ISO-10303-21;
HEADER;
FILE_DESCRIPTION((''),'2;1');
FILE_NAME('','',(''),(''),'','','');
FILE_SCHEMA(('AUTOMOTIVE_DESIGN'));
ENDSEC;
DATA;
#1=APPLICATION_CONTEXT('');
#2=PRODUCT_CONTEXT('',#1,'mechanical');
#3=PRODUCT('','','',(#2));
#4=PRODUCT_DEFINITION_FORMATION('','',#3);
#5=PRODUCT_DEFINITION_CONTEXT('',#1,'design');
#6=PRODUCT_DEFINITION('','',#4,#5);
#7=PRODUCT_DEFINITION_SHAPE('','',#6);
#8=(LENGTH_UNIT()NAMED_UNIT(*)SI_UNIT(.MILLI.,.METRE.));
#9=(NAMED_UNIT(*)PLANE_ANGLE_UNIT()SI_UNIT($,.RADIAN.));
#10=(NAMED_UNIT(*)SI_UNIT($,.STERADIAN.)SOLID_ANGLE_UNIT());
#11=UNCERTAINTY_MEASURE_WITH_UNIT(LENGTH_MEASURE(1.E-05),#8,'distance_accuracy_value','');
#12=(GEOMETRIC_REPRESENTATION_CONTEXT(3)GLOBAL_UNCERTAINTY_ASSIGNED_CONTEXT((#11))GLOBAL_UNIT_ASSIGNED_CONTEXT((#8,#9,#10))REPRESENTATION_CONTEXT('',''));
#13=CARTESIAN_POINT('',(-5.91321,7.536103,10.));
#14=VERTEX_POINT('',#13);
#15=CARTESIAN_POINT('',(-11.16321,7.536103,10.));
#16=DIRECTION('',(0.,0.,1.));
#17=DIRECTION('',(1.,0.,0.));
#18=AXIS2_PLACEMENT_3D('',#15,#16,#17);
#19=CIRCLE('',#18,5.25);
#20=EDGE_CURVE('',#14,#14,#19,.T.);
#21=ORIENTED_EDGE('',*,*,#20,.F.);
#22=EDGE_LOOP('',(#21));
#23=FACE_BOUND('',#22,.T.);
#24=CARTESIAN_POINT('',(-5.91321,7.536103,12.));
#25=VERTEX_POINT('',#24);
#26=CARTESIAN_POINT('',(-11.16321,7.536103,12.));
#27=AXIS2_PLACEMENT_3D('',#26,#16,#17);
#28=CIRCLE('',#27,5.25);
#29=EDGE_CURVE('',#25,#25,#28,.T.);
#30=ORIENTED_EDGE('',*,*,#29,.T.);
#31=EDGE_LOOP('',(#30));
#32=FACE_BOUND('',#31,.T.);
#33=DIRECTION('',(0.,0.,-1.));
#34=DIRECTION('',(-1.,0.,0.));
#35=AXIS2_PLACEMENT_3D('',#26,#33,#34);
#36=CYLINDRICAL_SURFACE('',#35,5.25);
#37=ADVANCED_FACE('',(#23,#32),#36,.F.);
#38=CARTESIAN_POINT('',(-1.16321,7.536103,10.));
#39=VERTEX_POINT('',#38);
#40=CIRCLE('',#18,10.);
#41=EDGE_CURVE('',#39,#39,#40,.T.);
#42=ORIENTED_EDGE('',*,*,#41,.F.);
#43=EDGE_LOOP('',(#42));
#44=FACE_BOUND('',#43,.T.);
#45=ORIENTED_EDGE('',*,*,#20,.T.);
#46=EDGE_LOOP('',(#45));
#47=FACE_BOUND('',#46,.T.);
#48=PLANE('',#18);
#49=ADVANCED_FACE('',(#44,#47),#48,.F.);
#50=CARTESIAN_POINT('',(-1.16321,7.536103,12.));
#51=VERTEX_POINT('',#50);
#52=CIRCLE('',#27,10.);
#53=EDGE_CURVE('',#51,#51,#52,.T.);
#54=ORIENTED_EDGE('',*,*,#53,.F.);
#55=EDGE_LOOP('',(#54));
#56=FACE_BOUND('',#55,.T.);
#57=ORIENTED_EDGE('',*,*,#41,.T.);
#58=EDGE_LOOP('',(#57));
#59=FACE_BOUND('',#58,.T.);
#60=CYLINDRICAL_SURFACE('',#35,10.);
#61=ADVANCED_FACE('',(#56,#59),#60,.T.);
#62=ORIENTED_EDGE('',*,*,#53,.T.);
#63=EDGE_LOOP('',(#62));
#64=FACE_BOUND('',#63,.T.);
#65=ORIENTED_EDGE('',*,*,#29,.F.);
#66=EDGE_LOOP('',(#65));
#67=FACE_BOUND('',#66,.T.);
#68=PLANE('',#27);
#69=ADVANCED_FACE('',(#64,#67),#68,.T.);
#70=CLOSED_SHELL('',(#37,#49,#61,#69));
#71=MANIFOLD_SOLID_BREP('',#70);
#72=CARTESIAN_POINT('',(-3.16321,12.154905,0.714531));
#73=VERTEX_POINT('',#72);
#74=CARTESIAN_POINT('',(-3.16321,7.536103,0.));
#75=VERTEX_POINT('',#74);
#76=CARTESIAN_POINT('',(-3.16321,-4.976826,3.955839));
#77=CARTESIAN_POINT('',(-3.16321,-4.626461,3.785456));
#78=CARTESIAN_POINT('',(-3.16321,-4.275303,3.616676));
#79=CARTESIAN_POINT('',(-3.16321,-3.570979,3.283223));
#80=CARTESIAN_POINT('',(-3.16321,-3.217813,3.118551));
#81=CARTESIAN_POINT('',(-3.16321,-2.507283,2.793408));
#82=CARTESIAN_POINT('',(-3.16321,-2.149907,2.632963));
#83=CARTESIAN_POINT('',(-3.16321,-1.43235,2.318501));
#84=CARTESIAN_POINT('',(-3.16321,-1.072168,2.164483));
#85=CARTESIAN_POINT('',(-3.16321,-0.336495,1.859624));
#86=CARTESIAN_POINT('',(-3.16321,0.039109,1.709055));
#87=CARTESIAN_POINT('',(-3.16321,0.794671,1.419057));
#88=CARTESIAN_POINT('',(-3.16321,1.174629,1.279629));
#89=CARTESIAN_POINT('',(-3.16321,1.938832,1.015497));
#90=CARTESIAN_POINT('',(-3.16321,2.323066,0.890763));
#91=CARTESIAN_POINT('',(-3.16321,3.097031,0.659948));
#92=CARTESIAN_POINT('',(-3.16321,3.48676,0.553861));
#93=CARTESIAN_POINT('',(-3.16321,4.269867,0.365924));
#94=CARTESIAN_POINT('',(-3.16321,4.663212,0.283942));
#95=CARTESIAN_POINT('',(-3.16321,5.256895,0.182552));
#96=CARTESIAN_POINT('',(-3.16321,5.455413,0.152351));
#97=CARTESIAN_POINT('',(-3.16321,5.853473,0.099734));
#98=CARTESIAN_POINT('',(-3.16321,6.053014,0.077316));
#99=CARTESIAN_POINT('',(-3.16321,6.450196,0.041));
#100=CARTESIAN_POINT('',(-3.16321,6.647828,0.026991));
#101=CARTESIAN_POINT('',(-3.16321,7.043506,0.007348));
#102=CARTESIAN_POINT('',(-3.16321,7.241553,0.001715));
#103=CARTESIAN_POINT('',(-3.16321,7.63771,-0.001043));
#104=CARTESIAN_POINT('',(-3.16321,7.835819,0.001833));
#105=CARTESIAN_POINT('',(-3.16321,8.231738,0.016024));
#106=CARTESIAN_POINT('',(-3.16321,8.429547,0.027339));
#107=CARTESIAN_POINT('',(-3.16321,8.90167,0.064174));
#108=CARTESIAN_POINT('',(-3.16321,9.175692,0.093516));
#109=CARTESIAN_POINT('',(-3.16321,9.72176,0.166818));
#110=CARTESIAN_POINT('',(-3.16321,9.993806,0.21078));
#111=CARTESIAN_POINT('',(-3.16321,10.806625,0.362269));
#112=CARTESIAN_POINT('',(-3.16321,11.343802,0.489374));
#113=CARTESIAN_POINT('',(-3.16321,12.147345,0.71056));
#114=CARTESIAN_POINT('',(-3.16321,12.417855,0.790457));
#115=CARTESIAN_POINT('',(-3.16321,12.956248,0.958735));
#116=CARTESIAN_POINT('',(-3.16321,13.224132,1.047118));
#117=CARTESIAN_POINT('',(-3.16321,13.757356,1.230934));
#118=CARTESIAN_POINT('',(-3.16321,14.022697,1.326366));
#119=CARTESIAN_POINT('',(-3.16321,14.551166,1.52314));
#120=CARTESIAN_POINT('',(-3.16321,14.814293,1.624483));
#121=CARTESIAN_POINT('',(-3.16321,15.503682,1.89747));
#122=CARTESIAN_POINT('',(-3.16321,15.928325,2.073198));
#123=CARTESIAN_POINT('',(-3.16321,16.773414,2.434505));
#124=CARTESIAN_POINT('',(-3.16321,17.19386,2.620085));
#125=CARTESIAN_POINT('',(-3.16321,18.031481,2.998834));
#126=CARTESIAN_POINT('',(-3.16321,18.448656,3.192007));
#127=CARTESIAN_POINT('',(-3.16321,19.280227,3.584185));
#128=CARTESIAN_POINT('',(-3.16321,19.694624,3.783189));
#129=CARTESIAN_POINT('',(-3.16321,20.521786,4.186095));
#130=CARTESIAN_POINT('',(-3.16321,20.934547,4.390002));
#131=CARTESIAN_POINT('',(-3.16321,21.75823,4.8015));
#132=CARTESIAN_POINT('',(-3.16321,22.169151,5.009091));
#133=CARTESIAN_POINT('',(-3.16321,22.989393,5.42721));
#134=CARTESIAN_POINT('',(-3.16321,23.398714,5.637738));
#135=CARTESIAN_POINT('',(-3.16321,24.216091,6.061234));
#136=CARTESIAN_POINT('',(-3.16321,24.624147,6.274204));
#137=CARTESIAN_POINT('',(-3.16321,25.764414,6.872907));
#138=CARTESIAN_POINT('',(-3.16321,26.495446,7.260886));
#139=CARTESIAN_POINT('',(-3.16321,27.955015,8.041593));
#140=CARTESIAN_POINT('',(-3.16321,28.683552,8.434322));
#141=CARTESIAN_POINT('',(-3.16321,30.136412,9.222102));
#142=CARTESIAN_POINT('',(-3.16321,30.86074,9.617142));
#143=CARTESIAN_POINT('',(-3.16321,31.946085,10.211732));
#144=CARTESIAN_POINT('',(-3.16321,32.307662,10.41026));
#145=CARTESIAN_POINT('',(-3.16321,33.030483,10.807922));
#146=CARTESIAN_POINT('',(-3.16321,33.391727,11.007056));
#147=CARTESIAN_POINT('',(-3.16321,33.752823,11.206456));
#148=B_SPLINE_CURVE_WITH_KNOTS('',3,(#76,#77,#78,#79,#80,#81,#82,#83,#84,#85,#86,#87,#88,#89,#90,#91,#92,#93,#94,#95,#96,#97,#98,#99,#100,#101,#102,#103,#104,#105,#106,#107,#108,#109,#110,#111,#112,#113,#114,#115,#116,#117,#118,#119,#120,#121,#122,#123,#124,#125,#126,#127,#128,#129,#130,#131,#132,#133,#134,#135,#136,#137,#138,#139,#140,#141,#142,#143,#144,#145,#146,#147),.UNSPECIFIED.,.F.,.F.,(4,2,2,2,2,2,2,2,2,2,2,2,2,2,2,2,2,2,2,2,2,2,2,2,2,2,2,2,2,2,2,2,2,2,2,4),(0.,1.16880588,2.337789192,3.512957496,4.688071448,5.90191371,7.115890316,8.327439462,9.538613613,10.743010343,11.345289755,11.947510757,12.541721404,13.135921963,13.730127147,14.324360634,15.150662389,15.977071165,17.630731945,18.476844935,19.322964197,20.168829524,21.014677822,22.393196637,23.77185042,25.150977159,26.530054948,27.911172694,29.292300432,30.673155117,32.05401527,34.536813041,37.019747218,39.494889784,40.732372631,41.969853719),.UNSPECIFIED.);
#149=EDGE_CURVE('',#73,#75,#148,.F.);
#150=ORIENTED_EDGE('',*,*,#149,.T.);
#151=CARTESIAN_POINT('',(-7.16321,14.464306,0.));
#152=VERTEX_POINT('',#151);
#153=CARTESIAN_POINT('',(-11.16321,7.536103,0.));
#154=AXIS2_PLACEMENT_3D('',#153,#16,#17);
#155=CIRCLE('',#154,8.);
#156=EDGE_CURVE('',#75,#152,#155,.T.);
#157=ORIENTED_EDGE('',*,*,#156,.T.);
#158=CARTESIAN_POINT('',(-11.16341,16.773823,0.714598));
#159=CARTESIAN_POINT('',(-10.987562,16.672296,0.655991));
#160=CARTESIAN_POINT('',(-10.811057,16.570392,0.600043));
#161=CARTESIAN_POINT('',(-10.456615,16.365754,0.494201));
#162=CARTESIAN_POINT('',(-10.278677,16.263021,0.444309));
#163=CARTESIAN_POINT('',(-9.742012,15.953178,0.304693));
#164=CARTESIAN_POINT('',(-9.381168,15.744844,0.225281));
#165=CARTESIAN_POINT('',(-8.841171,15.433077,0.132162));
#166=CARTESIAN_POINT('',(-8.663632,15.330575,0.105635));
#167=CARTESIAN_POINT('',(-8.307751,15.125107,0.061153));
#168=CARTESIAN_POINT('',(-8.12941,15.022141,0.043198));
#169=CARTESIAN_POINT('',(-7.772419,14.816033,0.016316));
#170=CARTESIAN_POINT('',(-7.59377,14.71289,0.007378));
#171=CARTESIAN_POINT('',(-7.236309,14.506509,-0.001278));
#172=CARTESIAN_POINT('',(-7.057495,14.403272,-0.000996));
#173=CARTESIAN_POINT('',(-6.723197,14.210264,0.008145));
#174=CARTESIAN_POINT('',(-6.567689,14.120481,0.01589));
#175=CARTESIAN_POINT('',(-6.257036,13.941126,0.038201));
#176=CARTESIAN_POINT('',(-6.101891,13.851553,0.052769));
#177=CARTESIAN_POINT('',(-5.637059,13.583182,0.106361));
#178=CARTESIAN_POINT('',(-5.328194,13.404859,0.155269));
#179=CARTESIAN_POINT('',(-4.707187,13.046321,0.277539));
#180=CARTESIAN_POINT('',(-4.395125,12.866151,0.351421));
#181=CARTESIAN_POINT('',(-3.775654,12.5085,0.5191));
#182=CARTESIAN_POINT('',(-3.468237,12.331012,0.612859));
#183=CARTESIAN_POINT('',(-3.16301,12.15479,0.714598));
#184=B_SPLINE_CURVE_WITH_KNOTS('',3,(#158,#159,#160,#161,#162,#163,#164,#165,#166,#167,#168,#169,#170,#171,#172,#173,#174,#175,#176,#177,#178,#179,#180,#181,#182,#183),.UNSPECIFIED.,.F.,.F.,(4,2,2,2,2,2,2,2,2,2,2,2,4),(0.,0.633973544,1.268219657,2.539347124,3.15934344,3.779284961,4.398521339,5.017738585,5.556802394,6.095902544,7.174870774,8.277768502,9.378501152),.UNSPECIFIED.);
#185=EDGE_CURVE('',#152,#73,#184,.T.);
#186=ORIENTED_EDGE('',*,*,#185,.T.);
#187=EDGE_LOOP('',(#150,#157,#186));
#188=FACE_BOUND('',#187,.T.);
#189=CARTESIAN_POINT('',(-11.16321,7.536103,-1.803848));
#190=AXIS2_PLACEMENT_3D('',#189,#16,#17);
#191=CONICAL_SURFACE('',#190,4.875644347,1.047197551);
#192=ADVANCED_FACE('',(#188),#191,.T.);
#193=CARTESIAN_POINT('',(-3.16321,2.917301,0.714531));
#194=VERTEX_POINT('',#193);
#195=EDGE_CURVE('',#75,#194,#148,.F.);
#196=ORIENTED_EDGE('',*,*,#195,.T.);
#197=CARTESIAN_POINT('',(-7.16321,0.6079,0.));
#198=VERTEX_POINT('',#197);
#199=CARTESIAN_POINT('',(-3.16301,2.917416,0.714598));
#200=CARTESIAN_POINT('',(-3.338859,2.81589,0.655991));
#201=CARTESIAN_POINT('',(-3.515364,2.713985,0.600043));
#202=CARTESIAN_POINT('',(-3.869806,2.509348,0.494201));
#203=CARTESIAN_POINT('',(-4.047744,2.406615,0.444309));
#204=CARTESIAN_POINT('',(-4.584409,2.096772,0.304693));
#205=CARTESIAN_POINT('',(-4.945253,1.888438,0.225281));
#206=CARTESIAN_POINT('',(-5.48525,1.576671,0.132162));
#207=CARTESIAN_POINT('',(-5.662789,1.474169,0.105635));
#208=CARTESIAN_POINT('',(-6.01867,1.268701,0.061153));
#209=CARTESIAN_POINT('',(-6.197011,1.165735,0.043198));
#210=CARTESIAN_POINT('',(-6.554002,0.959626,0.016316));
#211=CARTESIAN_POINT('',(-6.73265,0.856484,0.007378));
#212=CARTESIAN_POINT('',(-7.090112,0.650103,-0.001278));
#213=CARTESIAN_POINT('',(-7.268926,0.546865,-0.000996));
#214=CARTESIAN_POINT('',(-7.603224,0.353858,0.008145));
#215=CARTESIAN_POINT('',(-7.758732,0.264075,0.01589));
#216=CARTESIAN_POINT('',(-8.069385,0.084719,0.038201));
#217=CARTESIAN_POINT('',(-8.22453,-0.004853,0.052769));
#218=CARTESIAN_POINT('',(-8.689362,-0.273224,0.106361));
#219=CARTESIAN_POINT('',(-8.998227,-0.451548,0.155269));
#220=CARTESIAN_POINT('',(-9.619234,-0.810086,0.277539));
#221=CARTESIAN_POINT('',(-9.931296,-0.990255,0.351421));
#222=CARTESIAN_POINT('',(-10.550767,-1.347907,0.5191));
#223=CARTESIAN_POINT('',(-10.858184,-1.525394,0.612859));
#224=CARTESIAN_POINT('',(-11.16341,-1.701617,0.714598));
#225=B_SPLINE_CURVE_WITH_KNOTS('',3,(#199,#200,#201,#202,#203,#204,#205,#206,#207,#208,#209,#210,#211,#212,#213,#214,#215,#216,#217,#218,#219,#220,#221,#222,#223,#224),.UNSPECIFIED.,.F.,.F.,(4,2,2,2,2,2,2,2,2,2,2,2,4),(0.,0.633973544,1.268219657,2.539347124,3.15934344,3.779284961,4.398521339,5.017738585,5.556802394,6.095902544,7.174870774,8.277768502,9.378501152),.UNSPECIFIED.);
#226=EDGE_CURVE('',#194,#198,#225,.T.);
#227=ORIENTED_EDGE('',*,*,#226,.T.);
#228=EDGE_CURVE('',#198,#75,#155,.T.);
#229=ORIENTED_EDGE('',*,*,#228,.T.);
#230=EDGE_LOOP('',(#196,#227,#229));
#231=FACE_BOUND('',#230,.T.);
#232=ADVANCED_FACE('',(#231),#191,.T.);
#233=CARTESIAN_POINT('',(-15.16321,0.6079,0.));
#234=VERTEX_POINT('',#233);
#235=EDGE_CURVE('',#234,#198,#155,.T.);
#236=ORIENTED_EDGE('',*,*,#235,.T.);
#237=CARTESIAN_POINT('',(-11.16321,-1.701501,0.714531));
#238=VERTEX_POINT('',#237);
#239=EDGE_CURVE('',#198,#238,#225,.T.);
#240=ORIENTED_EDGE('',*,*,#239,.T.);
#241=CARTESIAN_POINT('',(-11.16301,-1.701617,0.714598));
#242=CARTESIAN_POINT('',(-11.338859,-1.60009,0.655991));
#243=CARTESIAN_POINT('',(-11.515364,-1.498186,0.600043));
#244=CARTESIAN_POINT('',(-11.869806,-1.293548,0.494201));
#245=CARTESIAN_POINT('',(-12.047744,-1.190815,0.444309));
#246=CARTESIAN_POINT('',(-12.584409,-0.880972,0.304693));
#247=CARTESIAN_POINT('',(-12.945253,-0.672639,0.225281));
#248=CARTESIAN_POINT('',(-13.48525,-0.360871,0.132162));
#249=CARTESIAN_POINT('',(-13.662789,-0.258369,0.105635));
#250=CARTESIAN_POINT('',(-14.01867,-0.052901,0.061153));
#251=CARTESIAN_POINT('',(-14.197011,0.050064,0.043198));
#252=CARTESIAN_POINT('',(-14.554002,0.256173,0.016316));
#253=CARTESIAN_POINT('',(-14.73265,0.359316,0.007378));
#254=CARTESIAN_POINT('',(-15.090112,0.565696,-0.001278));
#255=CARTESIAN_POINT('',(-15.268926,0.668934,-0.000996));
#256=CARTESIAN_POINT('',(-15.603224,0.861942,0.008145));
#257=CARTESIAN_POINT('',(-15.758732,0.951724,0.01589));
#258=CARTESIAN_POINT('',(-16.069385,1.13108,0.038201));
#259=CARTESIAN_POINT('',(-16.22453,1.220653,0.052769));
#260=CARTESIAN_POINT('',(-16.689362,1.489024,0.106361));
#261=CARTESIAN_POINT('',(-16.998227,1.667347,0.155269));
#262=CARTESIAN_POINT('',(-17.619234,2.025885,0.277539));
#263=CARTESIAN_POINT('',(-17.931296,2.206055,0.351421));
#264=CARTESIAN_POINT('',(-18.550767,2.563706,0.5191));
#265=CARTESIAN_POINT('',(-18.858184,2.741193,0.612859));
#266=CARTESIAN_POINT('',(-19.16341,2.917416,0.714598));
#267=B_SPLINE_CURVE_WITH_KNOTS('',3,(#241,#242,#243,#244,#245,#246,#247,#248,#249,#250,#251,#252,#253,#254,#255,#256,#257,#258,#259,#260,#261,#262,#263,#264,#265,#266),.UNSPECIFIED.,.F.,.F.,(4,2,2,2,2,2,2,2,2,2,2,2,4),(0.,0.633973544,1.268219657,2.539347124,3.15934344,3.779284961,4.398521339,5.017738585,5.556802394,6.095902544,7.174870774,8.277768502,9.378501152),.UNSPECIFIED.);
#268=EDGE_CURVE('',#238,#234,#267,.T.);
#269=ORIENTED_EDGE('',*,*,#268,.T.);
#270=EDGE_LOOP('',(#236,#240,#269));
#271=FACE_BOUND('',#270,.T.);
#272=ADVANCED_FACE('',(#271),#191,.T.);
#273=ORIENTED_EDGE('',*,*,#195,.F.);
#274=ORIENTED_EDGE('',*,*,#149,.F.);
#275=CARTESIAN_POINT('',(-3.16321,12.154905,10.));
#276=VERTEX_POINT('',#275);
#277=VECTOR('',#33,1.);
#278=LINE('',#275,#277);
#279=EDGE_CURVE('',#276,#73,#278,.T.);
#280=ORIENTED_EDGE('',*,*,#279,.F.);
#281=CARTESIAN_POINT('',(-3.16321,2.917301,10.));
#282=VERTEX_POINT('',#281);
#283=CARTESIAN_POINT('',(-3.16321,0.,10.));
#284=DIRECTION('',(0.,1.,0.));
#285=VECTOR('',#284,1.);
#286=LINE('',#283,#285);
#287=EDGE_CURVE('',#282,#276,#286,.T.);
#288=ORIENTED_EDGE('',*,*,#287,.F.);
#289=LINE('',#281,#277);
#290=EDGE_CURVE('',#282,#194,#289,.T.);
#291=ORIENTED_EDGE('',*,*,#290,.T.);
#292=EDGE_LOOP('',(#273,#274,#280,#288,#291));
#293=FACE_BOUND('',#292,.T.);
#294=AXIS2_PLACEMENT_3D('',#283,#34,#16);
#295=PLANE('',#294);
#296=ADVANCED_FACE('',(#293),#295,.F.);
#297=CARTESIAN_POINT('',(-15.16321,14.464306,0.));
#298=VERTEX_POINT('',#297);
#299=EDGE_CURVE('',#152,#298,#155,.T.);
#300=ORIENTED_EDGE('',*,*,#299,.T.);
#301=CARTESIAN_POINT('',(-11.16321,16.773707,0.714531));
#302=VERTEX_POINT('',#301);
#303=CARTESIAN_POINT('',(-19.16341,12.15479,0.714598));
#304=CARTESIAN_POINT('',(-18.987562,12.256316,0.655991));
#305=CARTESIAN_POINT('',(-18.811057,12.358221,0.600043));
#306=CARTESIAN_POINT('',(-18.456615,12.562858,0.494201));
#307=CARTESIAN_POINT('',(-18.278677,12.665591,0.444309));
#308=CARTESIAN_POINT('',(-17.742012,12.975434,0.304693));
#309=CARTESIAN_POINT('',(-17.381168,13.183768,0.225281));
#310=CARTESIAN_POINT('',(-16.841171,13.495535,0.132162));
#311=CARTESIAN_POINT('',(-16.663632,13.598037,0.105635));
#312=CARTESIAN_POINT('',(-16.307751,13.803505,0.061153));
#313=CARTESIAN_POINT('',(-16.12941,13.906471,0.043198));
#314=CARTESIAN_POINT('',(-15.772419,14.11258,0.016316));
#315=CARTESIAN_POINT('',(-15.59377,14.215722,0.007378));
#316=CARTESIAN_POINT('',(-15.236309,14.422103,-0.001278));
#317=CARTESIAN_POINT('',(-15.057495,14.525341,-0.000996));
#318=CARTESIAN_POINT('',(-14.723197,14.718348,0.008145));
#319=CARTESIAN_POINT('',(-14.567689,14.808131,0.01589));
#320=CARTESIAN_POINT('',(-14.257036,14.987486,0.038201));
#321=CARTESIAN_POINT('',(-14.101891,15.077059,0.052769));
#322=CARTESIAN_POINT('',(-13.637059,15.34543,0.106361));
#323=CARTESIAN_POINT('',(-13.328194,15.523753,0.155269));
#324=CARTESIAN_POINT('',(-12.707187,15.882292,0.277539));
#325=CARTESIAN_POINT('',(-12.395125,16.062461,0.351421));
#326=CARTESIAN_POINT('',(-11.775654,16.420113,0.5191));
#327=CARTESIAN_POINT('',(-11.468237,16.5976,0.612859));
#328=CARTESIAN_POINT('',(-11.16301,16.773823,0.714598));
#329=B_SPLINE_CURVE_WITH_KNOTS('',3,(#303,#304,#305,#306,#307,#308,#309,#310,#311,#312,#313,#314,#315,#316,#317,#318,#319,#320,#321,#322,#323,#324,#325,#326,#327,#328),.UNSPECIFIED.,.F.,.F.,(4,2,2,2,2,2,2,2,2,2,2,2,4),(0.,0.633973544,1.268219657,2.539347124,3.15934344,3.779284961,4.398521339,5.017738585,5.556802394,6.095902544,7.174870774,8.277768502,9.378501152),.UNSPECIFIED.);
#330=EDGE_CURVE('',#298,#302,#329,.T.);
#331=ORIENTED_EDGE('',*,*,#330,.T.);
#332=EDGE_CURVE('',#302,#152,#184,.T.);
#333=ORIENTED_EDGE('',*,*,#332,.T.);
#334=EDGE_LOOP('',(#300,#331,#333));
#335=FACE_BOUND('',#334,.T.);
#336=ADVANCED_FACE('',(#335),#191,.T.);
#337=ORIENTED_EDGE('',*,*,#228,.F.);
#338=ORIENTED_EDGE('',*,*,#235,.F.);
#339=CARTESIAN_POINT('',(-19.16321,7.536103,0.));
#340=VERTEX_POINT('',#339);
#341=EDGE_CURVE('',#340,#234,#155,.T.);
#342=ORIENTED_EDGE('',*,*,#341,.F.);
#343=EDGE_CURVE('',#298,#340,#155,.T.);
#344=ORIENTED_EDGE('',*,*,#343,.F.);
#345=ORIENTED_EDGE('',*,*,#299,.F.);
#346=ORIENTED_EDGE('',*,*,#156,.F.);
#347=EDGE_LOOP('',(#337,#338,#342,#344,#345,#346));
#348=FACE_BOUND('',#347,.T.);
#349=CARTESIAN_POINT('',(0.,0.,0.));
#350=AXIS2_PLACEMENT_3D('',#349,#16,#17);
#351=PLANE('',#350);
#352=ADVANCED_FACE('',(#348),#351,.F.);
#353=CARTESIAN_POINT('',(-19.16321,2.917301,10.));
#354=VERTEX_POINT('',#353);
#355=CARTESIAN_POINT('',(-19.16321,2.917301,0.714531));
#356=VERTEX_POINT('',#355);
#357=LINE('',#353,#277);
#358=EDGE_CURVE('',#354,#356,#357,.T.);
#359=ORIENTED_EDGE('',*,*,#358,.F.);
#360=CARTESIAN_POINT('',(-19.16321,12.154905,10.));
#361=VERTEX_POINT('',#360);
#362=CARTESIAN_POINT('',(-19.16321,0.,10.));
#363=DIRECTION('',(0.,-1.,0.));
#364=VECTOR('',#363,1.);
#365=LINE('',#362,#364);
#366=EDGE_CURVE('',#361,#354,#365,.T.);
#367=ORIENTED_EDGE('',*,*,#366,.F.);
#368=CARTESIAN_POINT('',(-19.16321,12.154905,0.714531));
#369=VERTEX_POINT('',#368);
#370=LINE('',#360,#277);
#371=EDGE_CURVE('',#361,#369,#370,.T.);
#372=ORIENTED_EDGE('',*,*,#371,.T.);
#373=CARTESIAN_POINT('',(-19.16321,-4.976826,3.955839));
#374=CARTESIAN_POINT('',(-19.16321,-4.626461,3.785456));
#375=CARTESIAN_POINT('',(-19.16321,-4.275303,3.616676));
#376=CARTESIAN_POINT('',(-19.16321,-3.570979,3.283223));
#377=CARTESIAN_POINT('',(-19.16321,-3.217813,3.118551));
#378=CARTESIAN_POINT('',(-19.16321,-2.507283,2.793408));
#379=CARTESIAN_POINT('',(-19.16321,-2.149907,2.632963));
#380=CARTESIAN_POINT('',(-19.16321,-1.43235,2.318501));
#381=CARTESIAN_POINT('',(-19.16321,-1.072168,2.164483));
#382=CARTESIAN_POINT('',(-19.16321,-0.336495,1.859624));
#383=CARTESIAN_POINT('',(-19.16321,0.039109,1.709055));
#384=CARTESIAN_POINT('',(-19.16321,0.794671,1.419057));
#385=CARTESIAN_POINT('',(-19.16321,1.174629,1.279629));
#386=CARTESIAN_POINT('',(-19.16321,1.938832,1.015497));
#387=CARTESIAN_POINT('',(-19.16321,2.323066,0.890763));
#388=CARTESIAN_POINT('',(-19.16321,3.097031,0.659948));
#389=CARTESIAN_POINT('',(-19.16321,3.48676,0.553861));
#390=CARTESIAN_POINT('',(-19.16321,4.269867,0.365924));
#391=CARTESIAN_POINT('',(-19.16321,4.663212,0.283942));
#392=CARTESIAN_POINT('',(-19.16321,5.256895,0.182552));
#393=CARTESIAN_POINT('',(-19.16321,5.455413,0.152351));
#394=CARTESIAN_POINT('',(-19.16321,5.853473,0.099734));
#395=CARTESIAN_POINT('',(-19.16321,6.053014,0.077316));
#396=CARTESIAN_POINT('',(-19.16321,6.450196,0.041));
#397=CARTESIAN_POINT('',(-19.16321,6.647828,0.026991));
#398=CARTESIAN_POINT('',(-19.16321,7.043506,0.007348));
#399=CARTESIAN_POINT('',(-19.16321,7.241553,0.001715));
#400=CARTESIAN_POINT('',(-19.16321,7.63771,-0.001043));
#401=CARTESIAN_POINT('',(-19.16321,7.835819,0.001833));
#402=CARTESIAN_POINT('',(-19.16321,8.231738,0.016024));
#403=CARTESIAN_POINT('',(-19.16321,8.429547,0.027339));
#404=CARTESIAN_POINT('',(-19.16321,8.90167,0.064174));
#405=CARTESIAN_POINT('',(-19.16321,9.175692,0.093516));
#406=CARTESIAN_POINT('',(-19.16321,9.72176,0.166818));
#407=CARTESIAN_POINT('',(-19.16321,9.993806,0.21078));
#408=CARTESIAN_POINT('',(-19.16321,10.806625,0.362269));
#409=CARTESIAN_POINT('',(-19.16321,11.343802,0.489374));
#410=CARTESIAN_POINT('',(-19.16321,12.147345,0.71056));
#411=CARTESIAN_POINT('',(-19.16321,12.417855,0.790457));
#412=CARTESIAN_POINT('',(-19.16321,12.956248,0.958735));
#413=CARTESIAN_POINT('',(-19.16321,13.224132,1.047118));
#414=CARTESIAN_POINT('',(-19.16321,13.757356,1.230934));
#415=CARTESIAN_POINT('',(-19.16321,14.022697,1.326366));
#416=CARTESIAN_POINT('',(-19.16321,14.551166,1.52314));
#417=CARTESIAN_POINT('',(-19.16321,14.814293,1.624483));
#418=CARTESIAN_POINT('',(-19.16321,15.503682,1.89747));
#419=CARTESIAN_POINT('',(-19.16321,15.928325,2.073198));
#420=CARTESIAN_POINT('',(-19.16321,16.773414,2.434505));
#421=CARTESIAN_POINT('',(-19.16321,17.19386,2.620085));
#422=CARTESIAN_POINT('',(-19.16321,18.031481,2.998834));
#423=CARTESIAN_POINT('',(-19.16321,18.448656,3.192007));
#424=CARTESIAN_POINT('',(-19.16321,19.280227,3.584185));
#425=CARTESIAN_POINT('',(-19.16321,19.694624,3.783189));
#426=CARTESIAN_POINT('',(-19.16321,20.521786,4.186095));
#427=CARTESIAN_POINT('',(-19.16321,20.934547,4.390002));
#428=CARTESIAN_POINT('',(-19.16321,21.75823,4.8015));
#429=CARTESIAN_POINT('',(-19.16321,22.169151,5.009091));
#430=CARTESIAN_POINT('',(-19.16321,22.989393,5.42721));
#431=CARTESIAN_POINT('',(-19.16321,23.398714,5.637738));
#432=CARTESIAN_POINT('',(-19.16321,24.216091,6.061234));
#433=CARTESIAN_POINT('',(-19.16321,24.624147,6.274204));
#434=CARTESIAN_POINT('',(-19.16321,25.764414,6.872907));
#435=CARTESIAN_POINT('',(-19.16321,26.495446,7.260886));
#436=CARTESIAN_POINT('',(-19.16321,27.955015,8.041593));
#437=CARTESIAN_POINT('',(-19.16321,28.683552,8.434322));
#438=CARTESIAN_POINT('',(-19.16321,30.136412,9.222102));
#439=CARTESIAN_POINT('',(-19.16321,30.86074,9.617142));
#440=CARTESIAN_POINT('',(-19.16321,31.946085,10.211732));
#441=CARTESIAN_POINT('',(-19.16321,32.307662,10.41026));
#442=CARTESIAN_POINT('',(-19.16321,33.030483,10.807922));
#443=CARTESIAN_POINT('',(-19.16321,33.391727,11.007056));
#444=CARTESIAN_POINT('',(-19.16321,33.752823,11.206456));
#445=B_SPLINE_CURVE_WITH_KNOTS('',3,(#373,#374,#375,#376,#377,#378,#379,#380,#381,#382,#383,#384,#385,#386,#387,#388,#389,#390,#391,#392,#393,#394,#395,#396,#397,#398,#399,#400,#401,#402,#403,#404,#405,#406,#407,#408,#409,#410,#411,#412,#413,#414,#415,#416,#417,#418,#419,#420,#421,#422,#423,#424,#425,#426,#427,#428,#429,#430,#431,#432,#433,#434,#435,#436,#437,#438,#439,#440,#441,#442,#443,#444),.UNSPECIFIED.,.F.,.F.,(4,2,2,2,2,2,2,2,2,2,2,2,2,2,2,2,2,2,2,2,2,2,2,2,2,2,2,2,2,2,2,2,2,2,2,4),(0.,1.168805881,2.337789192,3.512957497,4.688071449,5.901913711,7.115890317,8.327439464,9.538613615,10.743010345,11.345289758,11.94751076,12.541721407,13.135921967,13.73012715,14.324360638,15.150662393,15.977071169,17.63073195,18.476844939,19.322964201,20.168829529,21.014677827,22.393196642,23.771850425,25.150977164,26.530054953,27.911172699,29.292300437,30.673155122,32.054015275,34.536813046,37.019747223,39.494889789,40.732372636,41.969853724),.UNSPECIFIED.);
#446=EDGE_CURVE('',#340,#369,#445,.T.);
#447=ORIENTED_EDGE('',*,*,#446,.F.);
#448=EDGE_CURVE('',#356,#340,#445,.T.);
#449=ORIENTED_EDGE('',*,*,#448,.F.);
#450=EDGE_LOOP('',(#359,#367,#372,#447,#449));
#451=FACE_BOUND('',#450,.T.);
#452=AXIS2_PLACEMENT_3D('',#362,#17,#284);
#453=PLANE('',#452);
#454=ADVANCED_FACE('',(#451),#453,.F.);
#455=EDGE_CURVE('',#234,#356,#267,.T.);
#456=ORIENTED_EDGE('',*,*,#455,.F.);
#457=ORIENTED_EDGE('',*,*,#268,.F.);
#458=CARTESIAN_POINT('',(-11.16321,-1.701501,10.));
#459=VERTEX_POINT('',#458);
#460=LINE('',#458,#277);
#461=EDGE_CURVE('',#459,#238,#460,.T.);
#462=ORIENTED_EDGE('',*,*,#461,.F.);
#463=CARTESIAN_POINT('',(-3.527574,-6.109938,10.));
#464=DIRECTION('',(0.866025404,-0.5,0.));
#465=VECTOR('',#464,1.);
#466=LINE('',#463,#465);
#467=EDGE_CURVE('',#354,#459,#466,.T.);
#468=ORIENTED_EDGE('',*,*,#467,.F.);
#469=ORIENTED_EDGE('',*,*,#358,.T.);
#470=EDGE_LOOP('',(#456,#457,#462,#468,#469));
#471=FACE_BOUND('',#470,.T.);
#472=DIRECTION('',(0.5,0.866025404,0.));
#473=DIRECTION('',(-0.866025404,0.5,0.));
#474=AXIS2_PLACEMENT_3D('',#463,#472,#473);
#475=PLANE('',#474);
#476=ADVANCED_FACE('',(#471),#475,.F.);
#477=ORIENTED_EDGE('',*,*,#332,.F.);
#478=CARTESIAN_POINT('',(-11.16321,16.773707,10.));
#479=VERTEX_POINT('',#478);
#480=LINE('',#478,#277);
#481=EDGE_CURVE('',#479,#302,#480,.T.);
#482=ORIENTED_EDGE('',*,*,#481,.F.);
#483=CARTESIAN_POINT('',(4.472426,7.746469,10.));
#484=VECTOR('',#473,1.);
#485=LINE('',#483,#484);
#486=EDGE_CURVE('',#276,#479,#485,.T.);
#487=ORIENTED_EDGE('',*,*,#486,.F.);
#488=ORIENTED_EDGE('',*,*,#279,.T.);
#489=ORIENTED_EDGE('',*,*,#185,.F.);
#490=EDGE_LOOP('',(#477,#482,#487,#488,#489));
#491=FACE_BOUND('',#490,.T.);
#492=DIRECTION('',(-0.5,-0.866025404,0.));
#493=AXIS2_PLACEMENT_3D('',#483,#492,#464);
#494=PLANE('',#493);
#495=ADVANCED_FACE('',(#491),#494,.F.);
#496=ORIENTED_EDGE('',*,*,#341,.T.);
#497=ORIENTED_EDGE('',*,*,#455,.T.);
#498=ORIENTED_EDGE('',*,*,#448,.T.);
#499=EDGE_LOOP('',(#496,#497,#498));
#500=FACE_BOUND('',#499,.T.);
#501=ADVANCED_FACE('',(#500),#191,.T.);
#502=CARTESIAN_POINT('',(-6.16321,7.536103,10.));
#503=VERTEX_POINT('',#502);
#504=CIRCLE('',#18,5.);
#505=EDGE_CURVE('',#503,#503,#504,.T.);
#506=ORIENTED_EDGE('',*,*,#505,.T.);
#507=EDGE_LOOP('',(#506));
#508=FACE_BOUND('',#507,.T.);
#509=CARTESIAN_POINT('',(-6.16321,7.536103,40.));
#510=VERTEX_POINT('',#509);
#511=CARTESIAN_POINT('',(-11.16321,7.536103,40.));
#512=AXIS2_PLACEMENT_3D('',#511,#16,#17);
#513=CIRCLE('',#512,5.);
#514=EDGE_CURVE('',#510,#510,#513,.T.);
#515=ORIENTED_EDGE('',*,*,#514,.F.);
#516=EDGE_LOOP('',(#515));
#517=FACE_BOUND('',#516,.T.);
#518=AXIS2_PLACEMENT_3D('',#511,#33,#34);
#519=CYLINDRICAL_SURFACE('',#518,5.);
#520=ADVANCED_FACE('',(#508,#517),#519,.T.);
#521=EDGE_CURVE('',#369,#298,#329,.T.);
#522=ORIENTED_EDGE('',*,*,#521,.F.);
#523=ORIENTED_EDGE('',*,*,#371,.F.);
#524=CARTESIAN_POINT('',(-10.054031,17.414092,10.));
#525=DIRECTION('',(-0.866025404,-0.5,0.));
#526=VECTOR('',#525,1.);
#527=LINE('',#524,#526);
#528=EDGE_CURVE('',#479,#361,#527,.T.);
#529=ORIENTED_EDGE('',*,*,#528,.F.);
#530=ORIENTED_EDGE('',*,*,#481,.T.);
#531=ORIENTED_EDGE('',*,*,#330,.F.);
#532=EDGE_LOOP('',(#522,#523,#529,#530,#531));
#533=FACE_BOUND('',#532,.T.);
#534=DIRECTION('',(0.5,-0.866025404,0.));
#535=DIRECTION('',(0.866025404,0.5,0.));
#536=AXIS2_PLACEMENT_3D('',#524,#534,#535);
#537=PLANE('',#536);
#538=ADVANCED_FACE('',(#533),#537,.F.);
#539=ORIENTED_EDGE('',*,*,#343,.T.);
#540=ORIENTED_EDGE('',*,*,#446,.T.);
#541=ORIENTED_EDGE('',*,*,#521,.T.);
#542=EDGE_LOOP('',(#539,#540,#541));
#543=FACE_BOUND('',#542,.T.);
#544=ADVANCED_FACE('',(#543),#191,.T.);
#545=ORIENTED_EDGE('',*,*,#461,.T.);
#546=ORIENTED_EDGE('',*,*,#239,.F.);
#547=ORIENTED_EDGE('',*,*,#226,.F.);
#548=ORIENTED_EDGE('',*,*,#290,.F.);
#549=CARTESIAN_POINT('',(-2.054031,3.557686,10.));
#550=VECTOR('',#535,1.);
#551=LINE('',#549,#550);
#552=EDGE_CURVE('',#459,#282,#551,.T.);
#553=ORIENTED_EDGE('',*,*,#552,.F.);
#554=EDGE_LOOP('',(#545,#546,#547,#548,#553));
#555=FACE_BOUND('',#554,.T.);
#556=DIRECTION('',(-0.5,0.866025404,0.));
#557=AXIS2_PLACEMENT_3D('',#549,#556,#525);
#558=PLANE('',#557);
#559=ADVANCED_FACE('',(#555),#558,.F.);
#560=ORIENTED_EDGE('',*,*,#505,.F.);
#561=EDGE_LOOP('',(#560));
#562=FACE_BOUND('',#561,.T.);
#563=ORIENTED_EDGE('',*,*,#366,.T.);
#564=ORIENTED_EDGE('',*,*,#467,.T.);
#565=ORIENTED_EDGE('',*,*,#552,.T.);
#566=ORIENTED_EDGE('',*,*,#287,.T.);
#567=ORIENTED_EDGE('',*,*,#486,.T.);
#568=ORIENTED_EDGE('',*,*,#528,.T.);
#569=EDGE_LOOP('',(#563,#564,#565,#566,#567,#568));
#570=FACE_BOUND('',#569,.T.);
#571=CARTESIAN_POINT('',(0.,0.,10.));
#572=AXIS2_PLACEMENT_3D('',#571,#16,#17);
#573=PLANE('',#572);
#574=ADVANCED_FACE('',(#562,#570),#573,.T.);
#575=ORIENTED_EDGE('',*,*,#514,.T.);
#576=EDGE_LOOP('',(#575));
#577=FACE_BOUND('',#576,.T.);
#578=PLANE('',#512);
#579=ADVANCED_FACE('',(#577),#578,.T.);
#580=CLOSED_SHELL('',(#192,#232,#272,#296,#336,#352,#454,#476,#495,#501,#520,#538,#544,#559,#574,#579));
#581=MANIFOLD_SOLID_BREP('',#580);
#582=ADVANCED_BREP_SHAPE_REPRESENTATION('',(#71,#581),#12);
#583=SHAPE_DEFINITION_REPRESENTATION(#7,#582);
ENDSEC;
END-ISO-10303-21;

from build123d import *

# Parameters (mm, degrees)
SKETCH1_R           = 5
BOSS_EXTRUDE1_DEPTH = 10
BOSS_EXTRUDE2_START = 10
SKETCH1_3_R         = 5
BOSS_EXTRUDE2_DEPTH = 30
BOSS_EXTRUDE3_START = 10
SKETCH3_R           = 10
SKETCH3_R_2         = 5.25
BOSS_EXTRUDE3_DEPTH = 2


with BuildPart() as part:
    # Sketch1 → Boss-Extrude1 (new body)
    # profile 1 of 2: a face of its own
    with BuildSketch(Plane.XY):
        Polygon((-11.163210479, -1.701501358), (-3.163210479, 2.917300796), (-3.163210479, 12.154905103), (-11.163210479, 16.773707256), (-19.163210479, 12.154905103), (-19.163210479, 2.917300796), align=None)
        with Locations((-11.163210479, 7.536102949)):
            Circle(SKETCH1_R, mode=Mode.SUBTRACT)
    # profile 2 of 2: a face of its own
    with BuildSketch(Plane.XY):
        with Locations((-11.163210479, 7.536102949)):
            Circle(SKETCH1_R)
    extrude(amount=BOSS_EXTRUDE1_DEPTH)

    # Sketch1<3> → Boss-Extrude2 (add)
    with BuildSketch(Plane.XY.offset(BOSS_EXTRUDE2_START)):
        with Locations((-11.163210479, 7.536102949)):
            Circle(SKETCH1_3_R)
    extrude(amount=BOSS_EXTRUDE2_DEPTH)

    # Sketch6 → Cut-Revolve2 (revolve, cut)
    with BuildSketch(Plane(origin=(0, 7.536102949, 0), x_dir=(-1, 0, 0), z_dir=(0, -1, 0))):
        Polygon((16.038854826, 4.803847577), (16.038854826, 1.803847577), (28.163210479, -5.196152423), (30.038854826, -5.196152423), (30.038854826, 4.803847577), align=None)
    revolve(axis=Axis((-11.163210479, 7.536102949, 10.5), (0, 0, -1)), mode=Mode.SUBTRACT)


with BuildPart() as body_2:
    # Sketch3 → Boss-Extrude3 (new body)
    with BuildSketch(Plane.XY.offset(BOSS_EXTRUDE3_START)):
        with Locations((-11.163210479, 7.536102949)):
            Circle(SKETCH3_R)
        with Locations((-11.163210479, 7.536102949)):
            Circle(SKETCH3_R_2, mode=Mode.SUBTRACT)
    extrude(amount=BOSS_EXTRUDE3_DEPTH)


solid = Compound([part.part, body_2.part])
